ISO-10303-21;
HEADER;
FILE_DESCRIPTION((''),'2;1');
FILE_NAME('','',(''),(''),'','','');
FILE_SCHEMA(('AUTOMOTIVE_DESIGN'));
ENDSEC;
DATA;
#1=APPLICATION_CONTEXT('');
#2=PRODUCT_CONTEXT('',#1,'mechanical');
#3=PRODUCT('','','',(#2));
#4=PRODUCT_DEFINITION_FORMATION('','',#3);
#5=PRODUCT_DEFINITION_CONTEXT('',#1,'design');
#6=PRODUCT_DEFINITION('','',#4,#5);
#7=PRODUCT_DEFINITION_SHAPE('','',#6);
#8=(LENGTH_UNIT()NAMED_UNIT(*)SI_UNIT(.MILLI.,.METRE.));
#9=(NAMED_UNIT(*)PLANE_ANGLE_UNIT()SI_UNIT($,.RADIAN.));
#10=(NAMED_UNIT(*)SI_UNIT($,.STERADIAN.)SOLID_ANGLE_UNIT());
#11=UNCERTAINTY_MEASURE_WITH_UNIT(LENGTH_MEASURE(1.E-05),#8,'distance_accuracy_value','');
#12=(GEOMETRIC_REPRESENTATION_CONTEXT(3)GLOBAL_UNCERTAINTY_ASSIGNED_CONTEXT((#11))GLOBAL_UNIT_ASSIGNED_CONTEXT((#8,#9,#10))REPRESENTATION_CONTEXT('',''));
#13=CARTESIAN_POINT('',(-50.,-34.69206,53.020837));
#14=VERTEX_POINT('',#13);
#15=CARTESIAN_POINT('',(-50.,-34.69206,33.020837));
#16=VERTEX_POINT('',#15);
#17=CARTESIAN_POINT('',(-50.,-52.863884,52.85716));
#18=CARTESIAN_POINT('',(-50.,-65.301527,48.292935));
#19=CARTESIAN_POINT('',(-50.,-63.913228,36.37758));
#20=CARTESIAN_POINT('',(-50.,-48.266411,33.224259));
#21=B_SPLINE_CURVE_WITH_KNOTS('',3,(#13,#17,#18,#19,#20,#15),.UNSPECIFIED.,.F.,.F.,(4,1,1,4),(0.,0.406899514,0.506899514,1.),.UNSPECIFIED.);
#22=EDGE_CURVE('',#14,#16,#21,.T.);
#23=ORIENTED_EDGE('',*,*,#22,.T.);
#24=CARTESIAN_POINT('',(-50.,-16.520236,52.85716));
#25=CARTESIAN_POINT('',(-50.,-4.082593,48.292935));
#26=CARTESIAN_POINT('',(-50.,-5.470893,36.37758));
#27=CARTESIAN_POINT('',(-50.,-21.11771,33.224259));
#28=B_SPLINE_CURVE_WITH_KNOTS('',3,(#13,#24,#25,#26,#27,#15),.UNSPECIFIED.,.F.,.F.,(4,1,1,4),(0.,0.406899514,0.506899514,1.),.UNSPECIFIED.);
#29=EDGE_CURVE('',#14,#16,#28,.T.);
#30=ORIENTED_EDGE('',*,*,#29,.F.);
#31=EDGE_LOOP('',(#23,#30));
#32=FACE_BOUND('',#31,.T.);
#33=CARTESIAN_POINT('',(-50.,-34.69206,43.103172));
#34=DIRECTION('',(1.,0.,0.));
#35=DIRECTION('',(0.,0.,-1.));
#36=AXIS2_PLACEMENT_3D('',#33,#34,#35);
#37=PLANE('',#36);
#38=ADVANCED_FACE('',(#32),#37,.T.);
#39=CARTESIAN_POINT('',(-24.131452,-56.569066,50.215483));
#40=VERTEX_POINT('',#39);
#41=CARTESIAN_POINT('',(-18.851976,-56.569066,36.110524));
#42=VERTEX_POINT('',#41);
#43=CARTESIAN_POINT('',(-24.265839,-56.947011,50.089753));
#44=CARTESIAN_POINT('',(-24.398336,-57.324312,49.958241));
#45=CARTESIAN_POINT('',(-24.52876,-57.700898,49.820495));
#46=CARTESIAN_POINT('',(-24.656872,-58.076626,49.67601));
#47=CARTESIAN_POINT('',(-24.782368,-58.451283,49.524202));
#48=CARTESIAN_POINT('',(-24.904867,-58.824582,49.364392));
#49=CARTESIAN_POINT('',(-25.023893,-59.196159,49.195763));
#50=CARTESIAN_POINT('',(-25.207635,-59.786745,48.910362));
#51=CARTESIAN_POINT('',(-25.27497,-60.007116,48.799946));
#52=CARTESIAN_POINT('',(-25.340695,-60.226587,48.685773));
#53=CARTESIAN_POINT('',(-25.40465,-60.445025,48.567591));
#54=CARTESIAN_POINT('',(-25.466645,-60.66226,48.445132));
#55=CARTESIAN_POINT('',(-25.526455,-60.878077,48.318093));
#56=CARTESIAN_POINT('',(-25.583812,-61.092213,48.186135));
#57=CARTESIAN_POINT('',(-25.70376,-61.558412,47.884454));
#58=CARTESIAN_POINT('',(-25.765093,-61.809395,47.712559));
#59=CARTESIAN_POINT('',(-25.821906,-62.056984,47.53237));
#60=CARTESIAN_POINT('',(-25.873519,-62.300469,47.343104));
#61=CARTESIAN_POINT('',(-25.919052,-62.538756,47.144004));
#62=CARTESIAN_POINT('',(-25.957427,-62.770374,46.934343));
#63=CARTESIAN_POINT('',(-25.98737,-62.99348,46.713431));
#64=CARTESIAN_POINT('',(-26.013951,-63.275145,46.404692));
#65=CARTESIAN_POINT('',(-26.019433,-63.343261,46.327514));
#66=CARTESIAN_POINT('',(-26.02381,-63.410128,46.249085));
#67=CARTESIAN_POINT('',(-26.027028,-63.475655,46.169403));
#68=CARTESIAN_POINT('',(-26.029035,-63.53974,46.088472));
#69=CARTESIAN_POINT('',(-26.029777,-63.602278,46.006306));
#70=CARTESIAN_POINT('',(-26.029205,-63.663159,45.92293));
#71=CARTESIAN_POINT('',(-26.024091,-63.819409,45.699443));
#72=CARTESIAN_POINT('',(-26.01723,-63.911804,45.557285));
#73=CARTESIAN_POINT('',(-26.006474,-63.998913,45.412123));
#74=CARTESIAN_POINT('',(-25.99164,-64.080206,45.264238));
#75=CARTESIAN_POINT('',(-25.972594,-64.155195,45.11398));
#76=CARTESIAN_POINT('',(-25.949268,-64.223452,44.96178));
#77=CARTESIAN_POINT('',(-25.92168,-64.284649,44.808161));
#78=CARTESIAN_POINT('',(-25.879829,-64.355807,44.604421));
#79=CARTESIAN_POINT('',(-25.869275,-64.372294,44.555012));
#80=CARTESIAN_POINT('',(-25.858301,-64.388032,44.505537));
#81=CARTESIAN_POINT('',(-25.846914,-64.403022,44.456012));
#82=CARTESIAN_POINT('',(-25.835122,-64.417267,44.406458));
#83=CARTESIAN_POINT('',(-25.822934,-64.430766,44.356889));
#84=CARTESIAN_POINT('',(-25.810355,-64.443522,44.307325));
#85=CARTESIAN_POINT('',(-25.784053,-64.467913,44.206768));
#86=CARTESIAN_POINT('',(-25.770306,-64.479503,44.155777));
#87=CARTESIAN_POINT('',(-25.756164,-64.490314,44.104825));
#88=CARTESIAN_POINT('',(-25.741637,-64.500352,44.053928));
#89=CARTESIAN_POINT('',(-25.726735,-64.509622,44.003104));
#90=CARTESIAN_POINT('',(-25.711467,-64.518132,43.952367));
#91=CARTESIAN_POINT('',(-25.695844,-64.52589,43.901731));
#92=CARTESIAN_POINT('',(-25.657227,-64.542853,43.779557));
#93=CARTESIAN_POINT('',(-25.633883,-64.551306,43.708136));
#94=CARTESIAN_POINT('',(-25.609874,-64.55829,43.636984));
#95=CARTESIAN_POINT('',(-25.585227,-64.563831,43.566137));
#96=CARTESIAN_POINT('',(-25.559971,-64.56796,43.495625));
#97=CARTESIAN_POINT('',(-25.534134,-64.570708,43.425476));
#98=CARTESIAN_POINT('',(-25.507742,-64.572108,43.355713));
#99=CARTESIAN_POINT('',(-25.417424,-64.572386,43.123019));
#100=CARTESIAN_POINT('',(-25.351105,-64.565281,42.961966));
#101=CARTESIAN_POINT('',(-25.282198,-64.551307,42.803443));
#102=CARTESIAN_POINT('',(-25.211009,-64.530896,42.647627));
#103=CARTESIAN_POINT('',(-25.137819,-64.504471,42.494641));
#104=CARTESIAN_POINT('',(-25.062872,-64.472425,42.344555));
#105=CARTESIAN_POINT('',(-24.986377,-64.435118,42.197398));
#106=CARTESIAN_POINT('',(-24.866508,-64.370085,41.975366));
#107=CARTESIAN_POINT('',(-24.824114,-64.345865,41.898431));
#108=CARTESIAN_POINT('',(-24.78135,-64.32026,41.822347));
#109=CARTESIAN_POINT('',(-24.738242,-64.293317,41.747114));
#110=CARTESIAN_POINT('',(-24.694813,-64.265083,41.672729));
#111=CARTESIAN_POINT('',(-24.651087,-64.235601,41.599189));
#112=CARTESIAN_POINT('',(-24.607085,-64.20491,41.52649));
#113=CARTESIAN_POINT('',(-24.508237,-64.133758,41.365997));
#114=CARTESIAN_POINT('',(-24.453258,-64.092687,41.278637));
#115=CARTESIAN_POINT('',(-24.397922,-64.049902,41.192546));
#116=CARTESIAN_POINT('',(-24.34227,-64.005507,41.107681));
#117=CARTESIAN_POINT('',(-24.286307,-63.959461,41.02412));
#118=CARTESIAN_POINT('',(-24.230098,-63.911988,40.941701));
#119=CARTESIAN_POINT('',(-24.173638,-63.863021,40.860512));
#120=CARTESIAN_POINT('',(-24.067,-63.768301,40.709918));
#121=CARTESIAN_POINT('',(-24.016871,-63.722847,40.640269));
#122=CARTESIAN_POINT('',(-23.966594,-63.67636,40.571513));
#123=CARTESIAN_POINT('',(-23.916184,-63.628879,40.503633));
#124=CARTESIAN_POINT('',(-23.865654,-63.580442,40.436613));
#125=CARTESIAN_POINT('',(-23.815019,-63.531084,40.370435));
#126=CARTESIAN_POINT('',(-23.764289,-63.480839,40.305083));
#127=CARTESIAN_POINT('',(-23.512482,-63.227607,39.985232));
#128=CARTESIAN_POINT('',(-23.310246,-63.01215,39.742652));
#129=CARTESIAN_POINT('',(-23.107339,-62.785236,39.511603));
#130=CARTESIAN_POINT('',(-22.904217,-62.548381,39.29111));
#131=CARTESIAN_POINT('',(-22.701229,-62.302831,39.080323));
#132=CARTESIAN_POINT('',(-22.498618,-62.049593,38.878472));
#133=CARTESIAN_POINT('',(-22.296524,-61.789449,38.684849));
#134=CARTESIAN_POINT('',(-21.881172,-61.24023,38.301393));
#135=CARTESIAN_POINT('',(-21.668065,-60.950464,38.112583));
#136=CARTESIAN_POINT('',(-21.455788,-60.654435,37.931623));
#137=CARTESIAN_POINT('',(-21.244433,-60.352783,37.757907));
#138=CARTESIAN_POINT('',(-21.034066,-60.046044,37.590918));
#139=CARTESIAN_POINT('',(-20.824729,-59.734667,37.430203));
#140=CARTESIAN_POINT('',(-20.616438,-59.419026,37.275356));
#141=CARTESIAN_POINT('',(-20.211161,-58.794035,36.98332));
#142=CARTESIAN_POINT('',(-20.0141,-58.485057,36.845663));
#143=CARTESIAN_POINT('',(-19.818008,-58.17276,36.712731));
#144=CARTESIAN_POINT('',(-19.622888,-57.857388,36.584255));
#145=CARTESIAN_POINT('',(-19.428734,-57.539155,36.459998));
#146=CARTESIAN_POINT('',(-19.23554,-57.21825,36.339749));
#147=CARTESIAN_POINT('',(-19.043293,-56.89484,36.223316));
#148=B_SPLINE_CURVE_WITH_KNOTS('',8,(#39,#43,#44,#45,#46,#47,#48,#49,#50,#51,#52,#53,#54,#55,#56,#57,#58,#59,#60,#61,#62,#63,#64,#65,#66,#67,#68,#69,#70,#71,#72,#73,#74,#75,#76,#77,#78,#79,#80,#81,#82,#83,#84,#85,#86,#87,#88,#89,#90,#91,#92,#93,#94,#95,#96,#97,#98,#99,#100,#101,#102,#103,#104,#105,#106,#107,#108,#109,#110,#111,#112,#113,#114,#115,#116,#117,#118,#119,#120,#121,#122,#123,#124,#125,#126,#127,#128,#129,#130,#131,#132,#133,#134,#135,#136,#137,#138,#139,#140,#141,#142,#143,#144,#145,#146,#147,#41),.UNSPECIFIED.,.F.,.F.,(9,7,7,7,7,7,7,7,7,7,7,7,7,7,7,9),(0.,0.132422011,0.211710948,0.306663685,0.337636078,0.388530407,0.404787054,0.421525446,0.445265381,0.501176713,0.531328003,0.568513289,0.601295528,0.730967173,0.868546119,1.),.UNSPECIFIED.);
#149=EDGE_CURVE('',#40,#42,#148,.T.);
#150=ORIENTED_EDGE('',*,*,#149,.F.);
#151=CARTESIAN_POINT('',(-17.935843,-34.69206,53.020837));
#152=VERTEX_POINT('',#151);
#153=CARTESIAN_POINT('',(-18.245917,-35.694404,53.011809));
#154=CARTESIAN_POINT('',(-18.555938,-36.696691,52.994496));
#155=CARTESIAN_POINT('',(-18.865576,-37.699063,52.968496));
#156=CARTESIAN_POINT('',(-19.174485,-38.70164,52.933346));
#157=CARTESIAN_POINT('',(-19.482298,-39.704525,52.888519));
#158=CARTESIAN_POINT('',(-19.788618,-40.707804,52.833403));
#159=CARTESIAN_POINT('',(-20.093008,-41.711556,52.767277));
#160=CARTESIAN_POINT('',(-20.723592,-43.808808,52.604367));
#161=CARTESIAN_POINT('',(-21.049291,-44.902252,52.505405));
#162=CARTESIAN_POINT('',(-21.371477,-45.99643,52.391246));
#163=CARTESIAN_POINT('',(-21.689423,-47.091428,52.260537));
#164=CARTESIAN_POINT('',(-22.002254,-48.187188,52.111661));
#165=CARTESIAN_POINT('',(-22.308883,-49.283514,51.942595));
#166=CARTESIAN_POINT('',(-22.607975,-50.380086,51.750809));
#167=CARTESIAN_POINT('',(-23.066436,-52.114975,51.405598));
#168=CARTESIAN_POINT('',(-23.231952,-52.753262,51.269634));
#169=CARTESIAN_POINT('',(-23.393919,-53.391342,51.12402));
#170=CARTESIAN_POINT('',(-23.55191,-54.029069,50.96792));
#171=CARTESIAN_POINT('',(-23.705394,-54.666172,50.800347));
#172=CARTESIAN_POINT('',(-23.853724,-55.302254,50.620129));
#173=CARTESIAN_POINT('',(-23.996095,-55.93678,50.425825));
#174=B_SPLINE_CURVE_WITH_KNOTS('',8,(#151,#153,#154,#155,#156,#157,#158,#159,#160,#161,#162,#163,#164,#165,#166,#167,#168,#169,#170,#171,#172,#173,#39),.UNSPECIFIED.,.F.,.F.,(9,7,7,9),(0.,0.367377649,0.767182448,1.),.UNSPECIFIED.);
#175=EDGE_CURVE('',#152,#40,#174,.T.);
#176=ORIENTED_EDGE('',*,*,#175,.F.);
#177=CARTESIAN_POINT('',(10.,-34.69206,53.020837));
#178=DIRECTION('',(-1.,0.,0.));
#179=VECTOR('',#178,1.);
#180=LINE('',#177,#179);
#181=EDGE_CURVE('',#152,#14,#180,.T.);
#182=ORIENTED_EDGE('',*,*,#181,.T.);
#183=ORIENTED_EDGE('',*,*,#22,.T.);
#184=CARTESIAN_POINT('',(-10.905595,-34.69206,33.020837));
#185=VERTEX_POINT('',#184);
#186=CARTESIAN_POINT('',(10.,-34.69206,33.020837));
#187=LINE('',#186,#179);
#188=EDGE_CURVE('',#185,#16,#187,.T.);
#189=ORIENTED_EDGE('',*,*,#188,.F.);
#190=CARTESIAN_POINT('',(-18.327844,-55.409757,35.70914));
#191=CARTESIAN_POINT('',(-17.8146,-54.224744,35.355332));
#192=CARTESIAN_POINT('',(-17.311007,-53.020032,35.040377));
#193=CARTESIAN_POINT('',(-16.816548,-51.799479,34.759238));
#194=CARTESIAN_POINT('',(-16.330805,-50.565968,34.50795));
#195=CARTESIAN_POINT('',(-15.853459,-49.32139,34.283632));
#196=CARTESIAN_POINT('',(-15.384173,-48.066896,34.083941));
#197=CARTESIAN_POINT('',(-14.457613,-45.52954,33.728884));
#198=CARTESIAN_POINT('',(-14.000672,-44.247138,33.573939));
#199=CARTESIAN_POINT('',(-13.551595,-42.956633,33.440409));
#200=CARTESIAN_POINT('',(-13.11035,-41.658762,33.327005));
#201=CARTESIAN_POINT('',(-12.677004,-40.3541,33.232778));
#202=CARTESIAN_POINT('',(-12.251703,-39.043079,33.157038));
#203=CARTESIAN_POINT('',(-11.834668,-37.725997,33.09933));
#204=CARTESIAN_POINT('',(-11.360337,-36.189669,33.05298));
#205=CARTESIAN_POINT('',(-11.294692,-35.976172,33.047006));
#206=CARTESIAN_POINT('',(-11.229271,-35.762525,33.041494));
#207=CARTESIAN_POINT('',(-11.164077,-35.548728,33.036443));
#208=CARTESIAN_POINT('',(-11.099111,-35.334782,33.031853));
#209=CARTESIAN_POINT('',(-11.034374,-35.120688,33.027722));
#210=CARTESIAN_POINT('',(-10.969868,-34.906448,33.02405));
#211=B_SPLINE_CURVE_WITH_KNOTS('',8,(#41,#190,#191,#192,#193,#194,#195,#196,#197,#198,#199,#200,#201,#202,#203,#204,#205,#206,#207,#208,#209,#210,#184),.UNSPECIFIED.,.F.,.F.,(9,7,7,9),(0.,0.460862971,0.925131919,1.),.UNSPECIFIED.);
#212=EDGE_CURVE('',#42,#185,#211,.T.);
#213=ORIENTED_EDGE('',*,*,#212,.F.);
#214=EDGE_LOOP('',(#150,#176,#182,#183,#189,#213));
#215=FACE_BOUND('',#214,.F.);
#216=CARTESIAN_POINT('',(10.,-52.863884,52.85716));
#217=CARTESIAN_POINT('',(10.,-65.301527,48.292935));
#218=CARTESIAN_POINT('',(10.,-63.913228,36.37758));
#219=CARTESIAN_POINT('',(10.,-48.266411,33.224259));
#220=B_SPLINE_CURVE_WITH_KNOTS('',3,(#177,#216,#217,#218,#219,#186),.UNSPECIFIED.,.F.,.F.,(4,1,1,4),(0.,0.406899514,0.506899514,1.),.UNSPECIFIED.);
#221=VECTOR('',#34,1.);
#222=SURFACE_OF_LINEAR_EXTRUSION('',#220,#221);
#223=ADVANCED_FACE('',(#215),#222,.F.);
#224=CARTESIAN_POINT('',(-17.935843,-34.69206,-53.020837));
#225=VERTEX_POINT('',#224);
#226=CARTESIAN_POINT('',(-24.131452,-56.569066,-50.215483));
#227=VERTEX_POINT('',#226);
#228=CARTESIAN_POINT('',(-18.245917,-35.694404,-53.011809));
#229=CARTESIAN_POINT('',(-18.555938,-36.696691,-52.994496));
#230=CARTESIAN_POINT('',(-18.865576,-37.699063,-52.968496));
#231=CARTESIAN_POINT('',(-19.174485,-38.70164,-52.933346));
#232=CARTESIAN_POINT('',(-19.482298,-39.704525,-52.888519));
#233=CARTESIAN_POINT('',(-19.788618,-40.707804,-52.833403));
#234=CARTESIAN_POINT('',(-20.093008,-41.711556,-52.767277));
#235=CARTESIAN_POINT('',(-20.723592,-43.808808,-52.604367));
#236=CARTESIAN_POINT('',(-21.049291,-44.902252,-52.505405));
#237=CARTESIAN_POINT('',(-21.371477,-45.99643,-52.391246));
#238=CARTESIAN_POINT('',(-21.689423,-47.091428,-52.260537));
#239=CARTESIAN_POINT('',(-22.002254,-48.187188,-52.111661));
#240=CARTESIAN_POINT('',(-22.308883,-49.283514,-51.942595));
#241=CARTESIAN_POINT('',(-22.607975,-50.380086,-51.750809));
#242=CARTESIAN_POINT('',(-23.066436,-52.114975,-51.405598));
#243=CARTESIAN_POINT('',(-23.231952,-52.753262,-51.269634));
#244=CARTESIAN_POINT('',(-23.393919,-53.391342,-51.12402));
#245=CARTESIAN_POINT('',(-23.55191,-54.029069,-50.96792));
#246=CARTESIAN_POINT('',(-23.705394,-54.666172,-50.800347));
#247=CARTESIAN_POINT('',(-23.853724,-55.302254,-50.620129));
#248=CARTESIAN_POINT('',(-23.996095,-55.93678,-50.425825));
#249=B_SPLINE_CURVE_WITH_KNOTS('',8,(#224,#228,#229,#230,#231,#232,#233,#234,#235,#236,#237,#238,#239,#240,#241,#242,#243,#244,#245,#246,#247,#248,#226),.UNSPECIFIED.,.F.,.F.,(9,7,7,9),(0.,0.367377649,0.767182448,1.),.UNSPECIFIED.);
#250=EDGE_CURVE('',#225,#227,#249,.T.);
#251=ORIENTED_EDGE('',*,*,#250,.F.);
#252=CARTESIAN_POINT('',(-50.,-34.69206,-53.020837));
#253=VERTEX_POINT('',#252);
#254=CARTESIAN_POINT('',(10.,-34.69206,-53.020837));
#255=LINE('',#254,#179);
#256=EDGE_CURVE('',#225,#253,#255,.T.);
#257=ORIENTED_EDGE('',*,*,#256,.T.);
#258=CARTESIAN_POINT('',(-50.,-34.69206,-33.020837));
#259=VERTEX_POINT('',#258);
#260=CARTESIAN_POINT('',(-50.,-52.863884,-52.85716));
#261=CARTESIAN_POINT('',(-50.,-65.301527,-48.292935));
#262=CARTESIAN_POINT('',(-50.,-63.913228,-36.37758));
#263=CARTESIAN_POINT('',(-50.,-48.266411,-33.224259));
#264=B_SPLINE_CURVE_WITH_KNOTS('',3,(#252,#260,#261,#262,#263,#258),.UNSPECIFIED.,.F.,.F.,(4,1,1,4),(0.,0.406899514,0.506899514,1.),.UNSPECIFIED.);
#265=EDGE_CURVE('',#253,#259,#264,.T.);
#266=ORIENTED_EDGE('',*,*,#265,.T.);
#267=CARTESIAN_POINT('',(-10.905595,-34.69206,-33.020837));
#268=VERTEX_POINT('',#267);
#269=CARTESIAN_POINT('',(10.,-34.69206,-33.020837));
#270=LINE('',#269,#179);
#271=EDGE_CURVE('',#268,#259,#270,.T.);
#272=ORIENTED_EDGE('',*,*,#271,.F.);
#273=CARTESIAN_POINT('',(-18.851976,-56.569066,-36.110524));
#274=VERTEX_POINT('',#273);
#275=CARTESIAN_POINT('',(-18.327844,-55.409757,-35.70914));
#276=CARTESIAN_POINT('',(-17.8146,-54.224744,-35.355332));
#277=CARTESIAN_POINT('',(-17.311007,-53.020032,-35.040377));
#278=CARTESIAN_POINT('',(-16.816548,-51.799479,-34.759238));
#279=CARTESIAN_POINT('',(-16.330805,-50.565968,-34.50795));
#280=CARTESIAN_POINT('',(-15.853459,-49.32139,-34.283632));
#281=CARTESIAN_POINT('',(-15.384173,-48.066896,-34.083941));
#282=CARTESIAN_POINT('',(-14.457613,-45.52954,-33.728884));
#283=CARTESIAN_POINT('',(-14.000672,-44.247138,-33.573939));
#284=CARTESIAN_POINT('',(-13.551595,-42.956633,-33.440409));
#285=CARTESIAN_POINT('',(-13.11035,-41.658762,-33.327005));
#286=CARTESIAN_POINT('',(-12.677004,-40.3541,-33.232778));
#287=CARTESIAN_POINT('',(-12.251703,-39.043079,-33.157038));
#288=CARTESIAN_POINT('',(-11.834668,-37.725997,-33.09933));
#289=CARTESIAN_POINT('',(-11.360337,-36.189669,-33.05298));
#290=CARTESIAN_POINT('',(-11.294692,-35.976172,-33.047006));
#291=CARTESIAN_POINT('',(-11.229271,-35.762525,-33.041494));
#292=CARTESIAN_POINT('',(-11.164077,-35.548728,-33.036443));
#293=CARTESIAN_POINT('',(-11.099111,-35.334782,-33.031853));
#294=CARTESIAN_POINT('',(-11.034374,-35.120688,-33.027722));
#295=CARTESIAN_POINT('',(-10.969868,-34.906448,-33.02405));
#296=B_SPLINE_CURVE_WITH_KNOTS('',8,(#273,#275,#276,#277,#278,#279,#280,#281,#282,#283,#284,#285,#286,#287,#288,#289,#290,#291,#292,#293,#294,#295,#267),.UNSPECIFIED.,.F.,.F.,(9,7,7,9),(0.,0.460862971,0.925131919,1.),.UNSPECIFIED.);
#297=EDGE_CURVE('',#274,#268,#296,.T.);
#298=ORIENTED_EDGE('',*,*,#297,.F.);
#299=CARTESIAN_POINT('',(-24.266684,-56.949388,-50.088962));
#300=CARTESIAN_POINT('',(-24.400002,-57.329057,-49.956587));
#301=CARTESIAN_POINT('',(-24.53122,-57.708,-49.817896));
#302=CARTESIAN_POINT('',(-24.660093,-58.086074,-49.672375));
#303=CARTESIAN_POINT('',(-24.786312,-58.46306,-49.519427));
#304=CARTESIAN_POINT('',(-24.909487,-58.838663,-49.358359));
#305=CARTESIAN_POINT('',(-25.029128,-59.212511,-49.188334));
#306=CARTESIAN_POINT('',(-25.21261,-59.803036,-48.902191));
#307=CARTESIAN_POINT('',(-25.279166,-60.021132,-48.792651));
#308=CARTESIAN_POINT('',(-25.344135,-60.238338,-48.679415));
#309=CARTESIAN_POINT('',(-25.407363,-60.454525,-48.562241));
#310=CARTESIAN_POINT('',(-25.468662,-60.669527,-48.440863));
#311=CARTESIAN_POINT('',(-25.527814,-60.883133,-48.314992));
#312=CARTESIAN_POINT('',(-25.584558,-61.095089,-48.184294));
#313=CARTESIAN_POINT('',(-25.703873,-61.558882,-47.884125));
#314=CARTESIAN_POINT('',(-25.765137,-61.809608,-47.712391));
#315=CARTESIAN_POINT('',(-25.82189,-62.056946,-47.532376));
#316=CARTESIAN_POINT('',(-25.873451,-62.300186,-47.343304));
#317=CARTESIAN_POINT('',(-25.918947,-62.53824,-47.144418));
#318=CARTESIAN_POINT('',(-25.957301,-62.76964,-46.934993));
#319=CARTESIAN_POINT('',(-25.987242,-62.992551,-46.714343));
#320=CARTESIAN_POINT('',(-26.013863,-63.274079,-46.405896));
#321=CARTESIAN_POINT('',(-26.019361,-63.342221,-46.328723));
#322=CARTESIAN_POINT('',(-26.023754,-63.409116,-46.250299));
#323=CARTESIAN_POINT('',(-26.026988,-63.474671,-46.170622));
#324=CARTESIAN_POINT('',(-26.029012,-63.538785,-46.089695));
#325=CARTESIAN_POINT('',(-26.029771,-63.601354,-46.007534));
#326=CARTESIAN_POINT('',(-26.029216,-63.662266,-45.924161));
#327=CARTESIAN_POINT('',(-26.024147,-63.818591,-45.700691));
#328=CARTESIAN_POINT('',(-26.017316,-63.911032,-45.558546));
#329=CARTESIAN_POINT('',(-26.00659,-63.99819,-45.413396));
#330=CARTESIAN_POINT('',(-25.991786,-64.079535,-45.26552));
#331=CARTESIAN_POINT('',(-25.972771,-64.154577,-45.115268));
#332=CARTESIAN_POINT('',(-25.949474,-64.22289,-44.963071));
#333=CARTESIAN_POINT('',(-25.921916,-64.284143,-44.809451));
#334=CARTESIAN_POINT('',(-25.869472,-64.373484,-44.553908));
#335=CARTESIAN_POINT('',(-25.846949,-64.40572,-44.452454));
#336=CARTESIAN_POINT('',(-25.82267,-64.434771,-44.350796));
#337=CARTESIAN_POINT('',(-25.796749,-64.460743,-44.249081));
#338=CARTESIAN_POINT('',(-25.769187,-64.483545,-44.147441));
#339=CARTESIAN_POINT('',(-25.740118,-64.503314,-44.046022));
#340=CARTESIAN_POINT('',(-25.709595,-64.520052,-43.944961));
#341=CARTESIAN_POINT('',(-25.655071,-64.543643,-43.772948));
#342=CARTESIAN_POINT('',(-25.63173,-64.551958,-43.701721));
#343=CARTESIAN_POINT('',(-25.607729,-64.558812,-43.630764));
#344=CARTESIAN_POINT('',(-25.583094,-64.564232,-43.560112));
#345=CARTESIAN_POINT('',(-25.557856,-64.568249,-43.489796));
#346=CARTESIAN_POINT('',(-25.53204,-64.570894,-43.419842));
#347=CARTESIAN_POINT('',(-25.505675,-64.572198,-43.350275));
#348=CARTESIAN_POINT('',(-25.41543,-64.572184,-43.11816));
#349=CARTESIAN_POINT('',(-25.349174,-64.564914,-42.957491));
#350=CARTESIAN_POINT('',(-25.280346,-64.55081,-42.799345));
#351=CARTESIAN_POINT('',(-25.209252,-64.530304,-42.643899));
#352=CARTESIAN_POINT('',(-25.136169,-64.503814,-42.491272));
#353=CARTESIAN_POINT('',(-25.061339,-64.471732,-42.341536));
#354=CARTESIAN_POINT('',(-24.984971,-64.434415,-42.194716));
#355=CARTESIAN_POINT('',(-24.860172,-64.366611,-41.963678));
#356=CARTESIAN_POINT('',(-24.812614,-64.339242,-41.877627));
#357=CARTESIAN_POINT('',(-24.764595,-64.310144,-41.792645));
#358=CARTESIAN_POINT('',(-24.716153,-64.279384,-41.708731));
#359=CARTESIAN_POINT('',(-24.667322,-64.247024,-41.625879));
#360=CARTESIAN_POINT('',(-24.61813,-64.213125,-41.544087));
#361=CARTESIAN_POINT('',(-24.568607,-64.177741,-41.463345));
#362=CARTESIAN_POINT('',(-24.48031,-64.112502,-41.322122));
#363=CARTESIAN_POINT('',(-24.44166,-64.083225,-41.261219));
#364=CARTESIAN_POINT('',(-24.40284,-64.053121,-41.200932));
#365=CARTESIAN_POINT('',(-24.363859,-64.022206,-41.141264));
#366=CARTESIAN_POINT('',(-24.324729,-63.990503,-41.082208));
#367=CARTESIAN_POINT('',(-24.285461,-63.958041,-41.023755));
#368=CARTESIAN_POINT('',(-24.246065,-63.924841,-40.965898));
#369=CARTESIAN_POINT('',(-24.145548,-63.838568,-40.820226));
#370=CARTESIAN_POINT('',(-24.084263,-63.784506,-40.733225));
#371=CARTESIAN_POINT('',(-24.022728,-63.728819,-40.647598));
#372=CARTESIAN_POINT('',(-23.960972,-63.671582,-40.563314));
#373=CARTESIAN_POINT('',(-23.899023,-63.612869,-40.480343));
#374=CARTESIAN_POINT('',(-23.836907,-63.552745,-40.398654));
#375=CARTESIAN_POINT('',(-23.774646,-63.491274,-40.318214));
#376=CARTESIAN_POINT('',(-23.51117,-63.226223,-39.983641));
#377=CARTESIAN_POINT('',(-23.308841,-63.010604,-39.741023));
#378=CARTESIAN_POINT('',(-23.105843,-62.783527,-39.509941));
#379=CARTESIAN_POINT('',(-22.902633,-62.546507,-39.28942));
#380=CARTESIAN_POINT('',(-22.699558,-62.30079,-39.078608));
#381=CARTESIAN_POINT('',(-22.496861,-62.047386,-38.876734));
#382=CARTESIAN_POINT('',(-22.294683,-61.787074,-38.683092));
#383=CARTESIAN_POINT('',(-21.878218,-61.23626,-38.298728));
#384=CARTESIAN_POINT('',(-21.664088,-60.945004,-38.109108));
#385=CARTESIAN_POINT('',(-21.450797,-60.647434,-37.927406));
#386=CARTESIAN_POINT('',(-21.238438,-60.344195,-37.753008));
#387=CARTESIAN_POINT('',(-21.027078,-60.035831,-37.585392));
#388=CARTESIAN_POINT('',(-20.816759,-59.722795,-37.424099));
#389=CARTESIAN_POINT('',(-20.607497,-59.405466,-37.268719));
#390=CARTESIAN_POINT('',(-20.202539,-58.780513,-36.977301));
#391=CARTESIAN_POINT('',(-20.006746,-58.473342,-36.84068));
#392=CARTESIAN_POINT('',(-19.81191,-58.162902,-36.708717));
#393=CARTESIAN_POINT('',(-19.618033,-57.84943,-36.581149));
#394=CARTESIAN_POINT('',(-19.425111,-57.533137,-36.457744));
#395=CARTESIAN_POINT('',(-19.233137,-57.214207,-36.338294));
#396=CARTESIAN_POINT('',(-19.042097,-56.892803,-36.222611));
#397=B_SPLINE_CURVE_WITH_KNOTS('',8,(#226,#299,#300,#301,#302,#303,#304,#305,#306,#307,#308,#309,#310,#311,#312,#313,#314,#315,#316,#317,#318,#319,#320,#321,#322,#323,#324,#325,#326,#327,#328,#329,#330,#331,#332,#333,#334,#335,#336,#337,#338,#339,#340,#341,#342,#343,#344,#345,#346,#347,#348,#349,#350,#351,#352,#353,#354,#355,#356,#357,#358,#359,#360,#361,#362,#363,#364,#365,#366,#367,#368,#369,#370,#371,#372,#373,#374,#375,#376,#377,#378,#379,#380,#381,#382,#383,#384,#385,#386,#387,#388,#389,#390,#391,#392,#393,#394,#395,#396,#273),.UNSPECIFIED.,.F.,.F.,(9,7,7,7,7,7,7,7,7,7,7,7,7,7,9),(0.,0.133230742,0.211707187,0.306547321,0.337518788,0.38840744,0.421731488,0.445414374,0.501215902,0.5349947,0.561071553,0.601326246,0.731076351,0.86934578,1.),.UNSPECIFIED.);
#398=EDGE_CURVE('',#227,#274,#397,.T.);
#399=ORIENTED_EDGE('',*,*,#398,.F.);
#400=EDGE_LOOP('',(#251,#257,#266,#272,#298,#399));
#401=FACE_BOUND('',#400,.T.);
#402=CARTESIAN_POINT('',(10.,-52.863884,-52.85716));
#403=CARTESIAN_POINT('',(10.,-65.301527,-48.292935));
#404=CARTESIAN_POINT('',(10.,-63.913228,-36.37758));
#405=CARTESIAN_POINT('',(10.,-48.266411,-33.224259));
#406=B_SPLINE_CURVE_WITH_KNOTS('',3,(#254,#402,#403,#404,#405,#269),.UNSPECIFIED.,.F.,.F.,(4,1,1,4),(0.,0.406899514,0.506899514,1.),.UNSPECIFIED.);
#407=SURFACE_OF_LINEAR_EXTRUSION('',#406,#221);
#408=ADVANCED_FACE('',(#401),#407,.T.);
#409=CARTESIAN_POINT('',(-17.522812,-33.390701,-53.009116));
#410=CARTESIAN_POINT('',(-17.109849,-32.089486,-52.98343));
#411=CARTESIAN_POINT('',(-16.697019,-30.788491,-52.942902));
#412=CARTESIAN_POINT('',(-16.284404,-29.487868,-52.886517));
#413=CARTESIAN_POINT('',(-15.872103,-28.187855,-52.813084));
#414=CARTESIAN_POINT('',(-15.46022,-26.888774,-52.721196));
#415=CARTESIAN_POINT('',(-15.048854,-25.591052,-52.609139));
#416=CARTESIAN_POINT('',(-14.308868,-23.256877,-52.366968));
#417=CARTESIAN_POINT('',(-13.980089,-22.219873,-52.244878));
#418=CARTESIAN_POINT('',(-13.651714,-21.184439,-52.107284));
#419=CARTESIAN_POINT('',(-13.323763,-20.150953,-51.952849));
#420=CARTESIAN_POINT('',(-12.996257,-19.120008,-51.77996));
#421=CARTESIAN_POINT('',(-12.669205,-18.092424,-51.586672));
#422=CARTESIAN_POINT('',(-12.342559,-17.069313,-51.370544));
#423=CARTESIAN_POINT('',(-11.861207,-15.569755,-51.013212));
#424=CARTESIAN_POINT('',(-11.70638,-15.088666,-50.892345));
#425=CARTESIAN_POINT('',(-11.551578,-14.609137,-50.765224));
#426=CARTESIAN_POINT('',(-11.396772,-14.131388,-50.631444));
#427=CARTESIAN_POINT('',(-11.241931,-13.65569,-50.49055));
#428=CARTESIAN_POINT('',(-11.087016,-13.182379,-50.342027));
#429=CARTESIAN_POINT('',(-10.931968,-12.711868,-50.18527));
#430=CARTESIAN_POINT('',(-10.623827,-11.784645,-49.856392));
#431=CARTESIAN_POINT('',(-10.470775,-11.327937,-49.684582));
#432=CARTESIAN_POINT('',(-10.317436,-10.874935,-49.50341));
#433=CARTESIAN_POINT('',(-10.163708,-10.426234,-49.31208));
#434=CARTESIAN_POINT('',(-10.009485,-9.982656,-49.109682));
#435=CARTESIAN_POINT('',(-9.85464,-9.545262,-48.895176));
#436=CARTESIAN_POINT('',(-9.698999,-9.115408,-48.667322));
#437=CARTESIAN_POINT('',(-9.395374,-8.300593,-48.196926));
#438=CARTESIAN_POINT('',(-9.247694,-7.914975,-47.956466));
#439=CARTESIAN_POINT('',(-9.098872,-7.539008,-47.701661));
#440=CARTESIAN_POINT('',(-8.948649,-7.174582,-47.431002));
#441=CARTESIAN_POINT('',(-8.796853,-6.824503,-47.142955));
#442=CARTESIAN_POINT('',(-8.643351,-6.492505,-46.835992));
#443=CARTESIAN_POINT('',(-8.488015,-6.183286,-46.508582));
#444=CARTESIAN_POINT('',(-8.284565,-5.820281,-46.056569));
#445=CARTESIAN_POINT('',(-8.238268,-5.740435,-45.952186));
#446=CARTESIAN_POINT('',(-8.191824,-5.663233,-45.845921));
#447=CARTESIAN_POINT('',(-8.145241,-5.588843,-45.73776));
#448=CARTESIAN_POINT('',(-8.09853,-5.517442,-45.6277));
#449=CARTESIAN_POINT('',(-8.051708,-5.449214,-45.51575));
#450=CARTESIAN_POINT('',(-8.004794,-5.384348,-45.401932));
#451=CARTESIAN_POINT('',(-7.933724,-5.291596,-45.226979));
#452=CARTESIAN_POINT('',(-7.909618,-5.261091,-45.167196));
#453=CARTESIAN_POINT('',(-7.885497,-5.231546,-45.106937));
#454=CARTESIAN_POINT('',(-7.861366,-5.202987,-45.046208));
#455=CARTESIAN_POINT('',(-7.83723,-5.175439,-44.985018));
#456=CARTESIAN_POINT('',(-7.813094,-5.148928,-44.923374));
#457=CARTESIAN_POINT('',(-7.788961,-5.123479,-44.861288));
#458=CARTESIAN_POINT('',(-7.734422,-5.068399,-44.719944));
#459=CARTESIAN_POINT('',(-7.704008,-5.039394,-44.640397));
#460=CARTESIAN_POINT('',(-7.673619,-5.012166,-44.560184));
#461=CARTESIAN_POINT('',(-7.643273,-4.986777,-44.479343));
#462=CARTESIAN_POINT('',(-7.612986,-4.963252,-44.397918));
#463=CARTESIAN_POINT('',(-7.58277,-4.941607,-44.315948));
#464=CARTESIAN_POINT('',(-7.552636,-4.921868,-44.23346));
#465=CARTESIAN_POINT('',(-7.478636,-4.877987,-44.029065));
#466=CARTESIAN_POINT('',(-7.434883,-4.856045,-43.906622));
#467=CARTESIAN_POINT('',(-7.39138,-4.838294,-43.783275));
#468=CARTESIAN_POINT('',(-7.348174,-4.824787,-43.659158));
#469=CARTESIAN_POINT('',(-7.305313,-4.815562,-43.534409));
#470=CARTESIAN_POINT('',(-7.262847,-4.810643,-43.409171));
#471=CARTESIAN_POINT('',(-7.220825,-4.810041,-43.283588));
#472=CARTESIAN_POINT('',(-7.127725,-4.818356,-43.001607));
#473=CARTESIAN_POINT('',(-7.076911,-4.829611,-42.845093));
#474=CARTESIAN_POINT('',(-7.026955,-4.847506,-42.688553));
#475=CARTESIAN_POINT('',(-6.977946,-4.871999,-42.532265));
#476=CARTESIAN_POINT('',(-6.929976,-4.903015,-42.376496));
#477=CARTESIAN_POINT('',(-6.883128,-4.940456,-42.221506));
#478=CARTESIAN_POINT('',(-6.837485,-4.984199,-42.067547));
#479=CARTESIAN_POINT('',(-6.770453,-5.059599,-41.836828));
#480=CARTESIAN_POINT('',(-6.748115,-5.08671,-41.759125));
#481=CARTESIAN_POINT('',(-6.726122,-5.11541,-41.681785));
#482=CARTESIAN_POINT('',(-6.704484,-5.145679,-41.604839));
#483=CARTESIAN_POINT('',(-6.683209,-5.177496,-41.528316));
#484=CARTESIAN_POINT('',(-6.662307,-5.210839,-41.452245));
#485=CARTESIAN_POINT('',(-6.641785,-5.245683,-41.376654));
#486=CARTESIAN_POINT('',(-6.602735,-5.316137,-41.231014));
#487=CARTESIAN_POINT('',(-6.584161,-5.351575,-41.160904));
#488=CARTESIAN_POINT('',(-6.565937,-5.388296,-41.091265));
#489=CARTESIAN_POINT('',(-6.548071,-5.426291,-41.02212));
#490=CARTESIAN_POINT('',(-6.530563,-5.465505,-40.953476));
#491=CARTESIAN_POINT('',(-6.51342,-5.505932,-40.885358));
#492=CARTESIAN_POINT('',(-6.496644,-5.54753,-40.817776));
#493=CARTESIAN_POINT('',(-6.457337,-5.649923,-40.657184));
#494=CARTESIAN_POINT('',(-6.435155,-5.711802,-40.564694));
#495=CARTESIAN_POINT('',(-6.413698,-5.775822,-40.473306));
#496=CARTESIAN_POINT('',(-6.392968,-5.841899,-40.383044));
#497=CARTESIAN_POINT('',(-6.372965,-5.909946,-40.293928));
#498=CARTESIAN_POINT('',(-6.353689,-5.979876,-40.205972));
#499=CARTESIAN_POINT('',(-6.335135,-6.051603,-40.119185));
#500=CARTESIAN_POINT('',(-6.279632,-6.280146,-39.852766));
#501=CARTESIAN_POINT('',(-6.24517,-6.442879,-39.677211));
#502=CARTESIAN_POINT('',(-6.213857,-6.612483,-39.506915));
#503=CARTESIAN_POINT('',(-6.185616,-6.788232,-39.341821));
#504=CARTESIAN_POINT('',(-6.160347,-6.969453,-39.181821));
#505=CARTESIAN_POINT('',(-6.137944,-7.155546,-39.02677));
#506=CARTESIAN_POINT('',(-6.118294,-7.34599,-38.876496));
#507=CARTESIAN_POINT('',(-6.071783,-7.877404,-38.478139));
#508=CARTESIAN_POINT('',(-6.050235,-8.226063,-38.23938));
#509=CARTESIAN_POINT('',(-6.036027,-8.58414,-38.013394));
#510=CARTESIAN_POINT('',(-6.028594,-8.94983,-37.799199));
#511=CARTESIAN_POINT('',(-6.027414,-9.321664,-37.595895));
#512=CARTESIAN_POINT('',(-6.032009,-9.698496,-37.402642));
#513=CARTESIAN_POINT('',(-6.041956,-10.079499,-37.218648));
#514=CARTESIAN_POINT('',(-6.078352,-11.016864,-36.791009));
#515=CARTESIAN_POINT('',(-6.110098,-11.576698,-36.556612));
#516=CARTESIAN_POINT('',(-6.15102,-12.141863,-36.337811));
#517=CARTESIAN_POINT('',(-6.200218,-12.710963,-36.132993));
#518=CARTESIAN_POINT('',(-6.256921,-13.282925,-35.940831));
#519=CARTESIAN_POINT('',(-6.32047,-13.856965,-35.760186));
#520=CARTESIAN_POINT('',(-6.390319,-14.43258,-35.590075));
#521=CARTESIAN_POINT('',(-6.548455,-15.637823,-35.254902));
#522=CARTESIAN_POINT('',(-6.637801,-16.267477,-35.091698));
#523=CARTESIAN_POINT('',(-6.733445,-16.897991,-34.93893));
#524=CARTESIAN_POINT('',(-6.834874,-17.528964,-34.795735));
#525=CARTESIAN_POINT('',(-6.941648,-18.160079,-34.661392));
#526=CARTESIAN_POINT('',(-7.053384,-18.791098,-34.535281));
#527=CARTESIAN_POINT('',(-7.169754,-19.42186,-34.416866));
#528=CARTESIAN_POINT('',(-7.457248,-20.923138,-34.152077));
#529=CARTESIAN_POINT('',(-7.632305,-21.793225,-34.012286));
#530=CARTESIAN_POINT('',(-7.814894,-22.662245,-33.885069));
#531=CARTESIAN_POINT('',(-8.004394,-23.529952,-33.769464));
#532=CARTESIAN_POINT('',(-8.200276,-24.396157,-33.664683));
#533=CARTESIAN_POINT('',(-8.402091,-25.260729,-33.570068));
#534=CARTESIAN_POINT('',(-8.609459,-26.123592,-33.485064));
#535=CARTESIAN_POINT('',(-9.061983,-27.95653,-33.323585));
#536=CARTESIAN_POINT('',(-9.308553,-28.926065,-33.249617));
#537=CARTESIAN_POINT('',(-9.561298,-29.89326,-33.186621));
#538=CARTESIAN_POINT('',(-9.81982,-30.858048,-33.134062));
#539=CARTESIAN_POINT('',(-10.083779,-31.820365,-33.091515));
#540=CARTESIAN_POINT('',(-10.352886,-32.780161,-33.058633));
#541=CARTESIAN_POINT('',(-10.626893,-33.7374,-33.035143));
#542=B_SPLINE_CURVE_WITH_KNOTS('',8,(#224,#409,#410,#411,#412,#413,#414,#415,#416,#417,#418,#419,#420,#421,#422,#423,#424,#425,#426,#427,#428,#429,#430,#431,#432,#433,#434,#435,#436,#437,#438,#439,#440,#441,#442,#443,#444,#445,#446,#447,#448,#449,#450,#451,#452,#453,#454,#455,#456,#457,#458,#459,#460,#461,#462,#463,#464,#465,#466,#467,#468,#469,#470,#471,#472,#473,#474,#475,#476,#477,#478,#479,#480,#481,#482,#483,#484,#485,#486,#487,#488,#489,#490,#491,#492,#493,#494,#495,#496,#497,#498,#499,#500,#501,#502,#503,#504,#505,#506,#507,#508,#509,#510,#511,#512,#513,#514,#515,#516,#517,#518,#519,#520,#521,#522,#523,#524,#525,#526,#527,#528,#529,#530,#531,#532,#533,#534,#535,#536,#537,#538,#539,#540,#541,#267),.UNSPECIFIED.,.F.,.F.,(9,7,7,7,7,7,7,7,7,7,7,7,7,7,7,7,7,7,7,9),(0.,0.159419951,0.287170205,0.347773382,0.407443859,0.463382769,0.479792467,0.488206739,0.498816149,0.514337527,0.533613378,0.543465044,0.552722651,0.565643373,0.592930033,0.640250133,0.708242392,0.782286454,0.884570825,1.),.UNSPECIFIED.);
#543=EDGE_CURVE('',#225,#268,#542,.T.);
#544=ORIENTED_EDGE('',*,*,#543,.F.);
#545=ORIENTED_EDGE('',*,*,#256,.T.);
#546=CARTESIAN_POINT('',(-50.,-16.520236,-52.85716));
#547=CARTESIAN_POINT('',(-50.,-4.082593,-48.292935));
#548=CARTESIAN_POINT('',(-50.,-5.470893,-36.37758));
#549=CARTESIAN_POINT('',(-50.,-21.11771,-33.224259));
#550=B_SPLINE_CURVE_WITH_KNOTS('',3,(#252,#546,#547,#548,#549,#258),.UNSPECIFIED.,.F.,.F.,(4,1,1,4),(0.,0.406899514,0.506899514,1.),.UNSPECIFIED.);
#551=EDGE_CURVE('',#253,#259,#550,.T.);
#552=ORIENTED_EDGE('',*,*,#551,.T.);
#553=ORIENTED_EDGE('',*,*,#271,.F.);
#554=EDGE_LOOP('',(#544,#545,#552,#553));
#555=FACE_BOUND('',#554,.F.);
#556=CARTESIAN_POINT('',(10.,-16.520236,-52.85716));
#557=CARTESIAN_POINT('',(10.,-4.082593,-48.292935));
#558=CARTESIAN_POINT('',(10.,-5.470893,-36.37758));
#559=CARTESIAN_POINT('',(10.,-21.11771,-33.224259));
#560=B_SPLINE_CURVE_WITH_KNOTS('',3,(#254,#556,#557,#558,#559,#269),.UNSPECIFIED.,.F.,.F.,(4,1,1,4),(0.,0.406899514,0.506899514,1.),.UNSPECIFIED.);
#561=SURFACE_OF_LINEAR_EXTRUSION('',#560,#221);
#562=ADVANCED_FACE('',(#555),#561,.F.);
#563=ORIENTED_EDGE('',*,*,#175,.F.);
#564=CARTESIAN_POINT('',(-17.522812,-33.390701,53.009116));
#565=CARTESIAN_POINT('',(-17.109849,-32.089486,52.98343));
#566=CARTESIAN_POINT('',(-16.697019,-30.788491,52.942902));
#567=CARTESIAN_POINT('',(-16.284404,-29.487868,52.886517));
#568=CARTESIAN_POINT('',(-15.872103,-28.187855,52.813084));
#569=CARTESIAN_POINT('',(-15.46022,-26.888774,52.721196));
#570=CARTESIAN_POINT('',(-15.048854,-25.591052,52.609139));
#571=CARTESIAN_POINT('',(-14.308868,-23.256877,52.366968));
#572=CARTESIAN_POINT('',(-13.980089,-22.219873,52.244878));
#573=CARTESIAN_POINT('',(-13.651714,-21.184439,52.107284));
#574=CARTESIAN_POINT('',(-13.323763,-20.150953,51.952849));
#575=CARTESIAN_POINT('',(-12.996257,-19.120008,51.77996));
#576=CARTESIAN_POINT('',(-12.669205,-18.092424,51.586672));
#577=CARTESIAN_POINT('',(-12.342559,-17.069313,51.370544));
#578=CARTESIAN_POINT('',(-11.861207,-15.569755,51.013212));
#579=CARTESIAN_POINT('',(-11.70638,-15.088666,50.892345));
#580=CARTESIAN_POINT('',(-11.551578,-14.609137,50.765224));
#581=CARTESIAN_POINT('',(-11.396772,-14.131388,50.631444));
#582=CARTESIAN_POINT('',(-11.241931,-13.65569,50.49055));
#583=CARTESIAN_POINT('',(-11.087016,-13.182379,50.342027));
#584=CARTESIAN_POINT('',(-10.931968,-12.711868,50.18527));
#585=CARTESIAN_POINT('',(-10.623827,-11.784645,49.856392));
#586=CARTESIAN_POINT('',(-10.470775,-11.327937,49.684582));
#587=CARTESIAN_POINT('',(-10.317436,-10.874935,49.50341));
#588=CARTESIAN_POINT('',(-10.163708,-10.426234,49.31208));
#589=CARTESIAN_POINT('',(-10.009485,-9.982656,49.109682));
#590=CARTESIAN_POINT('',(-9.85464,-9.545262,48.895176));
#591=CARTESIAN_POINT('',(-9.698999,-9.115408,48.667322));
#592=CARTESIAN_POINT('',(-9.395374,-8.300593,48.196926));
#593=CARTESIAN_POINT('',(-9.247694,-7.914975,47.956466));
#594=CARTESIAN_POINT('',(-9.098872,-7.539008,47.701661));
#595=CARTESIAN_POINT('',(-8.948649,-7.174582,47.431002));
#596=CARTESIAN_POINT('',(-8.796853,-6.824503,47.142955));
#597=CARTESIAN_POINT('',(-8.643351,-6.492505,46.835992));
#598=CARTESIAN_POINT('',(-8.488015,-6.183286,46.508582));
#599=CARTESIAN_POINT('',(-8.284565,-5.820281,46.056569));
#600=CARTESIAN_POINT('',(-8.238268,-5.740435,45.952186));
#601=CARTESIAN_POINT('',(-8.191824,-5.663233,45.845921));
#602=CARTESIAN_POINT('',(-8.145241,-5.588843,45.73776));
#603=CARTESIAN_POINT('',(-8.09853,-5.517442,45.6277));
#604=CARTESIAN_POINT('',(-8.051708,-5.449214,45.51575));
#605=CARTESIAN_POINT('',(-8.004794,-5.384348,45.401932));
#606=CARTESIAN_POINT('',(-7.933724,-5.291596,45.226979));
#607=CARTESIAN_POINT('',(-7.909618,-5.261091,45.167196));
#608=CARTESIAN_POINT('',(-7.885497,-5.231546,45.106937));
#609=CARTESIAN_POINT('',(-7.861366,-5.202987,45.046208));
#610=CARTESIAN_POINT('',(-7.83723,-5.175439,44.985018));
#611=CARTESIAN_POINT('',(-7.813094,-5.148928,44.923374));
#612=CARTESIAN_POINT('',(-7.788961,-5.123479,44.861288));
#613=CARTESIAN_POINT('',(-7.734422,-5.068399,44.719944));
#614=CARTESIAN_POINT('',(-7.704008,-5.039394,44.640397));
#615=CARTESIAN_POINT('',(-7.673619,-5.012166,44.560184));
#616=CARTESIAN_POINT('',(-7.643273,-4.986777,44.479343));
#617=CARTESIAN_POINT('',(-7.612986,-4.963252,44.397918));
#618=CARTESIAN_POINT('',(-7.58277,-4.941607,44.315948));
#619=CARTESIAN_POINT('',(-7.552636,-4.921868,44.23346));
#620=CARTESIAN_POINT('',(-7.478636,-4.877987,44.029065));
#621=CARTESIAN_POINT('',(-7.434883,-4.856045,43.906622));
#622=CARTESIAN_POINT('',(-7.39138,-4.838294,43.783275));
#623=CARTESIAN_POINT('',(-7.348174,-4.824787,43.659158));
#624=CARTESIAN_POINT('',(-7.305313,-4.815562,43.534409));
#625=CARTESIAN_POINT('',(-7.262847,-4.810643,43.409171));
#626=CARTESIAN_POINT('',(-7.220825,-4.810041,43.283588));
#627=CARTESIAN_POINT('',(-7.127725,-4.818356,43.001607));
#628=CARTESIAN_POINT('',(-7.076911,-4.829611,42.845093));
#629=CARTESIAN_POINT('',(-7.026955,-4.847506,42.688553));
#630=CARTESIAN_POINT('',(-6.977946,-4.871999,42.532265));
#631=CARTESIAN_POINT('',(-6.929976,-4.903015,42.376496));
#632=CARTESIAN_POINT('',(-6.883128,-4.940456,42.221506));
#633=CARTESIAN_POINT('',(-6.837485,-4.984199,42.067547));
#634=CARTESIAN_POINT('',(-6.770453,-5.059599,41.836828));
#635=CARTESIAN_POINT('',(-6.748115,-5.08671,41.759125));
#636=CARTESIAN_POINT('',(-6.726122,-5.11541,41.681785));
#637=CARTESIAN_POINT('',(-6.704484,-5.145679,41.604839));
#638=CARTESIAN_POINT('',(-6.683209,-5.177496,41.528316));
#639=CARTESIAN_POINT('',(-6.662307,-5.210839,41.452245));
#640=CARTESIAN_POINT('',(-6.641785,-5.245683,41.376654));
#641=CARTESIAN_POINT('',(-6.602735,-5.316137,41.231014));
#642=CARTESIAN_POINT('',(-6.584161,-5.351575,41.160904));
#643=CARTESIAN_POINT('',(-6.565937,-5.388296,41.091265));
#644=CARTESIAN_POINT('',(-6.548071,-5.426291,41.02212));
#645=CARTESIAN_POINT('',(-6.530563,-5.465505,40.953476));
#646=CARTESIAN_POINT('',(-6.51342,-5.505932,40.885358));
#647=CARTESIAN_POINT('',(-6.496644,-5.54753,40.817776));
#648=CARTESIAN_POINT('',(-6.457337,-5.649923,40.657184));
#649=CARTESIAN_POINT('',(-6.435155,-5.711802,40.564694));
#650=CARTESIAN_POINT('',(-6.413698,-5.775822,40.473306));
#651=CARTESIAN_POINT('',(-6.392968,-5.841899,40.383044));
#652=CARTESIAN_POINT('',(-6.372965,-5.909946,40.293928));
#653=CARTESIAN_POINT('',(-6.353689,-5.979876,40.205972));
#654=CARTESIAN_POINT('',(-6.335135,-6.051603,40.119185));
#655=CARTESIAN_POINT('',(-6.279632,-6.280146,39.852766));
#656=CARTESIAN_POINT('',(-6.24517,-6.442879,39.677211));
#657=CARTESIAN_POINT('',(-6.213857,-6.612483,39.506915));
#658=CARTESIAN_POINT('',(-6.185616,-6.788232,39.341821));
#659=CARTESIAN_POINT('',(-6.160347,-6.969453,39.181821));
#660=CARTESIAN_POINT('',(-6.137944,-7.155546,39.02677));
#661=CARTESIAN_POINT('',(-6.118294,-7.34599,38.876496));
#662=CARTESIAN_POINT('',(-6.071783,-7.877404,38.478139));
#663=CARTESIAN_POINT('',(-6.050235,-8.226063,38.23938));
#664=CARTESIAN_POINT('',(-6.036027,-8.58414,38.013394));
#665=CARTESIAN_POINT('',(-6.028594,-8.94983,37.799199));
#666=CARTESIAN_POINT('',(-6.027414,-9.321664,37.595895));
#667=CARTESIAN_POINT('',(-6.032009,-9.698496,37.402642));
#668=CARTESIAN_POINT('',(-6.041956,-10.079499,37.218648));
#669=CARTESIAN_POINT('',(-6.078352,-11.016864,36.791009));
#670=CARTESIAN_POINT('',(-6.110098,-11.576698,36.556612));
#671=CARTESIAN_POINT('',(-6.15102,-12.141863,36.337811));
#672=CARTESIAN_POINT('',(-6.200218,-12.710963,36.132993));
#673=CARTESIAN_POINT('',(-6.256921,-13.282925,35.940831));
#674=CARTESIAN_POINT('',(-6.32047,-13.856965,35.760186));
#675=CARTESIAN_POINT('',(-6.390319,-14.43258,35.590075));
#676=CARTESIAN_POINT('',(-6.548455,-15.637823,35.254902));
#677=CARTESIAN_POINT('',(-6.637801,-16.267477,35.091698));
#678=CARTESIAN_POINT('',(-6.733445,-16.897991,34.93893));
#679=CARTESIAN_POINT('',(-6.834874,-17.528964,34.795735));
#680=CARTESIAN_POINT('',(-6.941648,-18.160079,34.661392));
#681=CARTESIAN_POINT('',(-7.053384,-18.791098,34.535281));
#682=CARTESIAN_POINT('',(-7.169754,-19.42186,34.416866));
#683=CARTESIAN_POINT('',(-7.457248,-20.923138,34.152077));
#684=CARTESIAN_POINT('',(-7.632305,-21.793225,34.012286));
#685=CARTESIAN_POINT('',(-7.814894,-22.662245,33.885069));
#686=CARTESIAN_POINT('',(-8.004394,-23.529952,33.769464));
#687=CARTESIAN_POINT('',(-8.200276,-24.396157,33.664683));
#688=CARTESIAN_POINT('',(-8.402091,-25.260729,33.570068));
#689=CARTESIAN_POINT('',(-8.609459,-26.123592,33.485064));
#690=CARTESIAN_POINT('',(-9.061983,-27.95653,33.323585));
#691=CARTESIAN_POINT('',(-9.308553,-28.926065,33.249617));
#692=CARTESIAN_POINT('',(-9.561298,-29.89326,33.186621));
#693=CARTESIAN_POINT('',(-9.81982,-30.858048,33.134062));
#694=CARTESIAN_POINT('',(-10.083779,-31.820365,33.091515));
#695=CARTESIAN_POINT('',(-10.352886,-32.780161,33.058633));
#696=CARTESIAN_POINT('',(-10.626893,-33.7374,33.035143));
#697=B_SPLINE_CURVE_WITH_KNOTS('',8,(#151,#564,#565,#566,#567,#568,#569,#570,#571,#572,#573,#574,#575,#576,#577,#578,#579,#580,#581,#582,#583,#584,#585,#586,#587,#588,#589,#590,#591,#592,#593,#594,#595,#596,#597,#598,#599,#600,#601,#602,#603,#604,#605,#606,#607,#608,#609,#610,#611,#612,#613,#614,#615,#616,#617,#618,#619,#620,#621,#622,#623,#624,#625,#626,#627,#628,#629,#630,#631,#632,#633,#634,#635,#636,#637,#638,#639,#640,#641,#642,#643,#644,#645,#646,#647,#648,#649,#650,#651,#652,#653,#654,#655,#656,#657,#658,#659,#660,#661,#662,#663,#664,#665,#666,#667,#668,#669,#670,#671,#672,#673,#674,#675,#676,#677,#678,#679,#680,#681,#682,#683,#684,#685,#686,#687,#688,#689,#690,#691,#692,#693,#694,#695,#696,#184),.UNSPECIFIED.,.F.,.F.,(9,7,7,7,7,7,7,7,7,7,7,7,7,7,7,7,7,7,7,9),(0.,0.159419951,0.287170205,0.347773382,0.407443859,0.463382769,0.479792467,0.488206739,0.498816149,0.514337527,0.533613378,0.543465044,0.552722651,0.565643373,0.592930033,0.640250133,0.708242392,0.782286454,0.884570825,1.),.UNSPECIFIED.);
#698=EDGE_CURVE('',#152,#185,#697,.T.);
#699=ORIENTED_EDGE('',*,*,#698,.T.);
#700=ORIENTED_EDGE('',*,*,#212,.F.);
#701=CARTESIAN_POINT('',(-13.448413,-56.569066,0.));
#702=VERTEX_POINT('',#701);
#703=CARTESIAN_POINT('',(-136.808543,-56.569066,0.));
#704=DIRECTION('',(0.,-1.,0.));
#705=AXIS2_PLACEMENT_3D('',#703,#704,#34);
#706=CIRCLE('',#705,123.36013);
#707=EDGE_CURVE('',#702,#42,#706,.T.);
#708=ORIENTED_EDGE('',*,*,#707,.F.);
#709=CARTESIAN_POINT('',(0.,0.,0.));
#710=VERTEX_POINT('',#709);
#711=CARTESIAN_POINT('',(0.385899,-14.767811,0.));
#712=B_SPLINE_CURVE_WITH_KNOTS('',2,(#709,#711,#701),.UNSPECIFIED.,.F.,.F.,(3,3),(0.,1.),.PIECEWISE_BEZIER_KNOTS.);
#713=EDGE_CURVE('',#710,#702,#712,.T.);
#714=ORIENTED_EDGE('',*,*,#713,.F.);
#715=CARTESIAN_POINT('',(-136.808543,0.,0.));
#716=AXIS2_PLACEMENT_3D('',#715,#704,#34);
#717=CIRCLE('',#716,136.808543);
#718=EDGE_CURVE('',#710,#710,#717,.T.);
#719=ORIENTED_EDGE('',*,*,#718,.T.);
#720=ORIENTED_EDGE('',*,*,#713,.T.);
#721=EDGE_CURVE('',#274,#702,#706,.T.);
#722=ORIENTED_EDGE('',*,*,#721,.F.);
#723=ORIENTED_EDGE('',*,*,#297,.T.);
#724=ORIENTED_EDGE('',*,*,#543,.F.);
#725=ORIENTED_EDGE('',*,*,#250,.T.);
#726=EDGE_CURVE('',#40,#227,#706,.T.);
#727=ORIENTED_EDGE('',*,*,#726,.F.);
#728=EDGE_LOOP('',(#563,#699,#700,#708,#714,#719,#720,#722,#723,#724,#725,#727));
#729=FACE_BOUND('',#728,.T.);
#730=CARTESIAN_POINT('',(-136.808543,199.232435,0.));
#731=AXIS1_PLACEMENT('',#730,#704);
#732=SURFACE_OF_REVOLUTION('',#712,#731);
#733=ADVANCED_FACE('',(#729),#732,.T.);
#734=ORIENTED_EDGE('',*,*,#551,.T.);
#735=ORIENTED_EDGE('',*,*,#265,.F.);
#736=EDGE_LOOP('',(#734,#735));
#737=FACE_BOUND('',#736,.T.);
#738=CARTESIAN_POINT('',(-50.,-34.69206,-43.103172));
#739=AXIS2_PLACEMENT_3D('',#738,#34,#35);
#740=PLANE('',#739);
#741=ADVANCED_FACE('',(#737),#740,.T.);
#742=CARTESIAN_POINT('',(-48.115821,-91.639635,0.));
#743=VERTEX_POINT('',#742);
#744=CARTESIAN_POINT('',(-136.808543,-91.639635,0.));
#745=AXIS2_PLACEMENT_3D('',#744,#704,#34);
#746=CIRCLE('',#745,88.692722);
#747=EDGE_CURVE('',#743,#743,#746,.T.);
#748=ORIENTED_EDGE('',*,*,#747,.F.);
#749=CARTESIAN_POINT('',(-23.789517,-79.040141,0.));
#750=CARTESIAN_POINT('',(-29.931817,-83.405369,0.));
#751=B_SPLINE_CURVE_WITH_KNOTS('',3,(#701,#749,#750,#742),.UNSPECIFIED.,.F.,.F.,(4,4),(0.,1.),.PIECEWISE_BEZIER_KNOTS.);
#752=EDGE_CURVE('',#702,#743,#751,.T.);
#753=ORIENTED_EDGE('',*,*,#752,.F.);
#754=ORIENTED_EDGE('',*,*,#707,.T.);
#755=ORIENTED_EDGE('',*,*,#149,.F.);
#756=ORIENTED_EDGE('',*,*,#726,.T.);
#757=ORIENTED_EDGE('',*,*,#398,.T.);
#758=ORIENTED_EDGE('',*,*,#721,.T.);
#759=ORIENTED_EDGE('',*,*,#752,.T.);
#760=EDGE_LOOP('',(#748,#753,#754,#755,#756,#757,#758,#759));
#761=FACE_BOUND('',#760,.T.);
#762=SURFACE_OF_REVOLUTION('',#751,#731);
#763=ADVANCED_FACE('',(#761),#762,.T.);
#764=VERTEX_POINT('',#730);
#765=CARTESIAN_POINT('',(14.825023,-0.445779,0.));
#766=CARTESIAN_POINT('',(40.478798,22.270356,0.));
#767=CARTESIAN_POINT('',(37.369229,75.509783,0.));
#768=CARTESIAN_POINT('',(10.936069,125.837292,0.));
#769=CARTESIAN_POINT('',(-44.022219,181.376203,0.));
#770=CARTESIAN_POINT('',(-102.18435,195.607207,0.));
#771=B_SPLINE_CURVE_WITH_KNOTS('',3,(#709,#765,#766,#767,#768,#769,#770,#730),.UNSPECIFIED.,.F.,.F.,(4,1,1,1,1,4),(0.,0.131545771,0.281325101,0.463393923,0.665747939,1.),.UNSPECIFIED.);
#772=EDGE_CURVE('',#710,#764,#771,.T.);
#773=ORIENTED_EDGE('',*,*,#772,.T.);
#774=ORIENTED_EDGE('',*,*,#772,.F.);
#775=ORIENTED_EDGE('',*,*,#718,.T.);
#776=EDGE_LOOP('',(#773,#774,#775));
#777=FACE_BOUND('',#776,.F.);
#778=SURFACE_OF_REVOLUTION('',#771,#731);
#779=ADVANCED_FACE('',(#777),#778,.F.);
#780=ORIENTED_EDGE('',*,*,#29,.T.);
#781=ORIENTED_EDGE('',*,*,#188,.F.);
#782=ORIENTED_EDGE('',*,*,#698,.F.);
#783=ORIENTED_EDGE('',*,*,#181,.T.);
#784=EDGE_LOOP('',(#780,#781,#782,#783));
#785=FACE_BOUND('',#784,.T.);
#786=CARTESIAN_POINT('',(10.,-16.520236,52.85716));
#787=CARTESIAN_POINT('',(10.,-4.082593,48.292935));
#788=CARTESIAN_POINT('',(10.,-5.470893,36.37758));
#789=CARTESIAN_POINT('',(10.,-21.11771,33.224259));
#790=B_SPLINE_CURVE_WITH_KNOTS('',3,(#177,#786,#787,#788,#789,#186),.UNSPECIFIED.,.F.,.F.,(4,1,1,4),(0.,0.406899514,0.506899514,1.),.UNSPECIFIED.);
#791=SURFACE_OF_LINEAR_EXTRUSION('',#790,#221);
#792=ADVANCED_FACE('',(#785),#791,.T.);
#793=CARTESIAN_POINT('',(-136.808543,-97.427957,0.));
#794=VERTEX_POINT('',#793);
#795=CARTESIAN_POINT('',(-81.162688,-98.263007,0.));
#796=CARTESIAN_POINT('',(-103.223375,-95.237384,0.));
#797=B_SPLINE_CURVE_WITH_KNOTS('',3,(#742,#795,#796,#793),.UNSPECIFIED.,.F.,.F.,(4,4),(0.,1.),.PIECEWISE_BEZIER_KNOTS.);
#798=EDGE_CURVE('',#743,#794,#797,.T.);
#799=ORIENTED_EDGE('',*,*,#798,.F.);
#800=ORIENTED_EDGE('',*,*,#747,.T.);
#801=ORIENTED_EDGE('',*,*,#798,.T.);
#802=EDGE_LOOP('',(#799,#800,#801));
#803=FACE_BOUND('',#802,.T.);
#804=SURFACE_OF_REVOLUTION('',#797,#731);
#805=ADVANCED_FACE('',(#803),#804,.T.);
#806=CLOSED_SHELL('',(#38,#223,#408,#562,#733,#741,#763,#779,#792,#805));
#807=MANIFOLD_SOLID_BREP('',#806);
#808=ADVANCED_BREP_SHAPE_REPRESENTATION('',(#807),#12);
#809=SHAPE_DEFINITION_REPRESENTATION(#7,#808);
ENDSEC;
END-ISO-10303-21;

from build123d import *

# Parameters (mm, degrees)
ENL_V_MAT_EXTRU_1_DEPTH = 60


with BuildPart() as part:
    # Esquisse1 → Révolution7 (revolve)
    with BuildSketch(Plane.XY):
        with BuildLine():
            add(Edge.make_bspline(
                [(-48.115821059, -91.639635022), (-81.162687834, -98.263006724), (-103.223374652, -95.237383867), (-136.80854301, -97.427956975)],
                knots=[0, 0, 0, 0, 1, 1, 1, 1], degree=3))
            Line((-136.80854301, -97.427956975), (-136.80854301, 199.232434505))
            add(Edge.make_bspline(
                [(0, 0), (14.825022657, -0.445779429), (40.47879841, 22.27035649), (37.369228796, 75.509783122), (10.936069116, 125.837292255), (-44.022218749, 181.376202854), (-102.184349677, 195.60720694), (-136.80854301, 199.232434505)],
                knots=[0, 0, 0, 0, 0.131545771, 0.281325101, 0.463393923, 0.665747939, 1, 1, 1, 1], degree=3))
            add(Edge.make_bspline(
                [(0, 0), (0.385899472, -14.767811035), (-13.4484134, -56.569066259)],
                knots=[0, 0, 0, 1, 1, 1], degree=2))
            add(Edge.make_bspline(
                [(-13.4484134, -56.569066259), (-23.789517321, -79.040140508), (-29.931816795, -83.40536894), (-48.115821059, -91.639635022)],
                knots=[0, 0, 0, 0, 1, 1, 1, 1], degree=3))
        make_face()
    revolve(axis=Axis((-136.80854301, 199.232434505, 0), (0, -1, 0)))

    # Esquisse8 → Enlèv. mat.-Extru.1 (cut)
    with BuildSketch(Plane(origin=(10, 0, 0), x_dir=(0, 0, -1), z_dir=(1, 0, 0))):
        with BuildLine():
            add(Edge.make_bspline(
                [(53.020837129, -34.692060293), (52.857159542, -16.520236199), (48.292935061, -4.082593379), (36.377579821, -5.470892534), (33.224258834, -21.117710022), (33.020837129, -34.692060293)],
                knots=[0, 0, 0, 0, 0.406899514, 0.506899514, 1, 1, 1, 1], degree=3))
            add(Edge.make_bspline(
                [(53.020837129, -34.692060293), (52.857159542, -52.863884387), (48.292935061, -65.301527207), (36.377579821, -63.913228052), (33.224258834, -48.266410564), (33.020837129, -34.692060293)],
                knots=[0, 0, 0, 0, 0.406899514, 0.506899514, 1, 1, 1, 1], degree=3))
        make_face()
        with BuildLine():
            add(Edge.make_bspline(
                [(-53.020837129, -34.692060293), (-52.857159542, -52.863884387), (-48.292935061, -65.301527207), (-36.377579821, -63.913228052), (-33.224258834, -48.266410564), (-33.020837129, -34.692060293)],
                knots=[0, 0, 0, 0, 0.406899514, 0.506899514, 1, 1, 1, 1], degree=3))
            add(Edge.make_bspline(
                [(-53.020837129, -34.692060293), (-52.857159542, -16.520236199), (-48.292935061, -4.082593379), (-36.377579821, -5.470892534), (-33.224258834, -21.117710022), (-33.020837129, -34.692060293)],
                knots=[0, 0, 0, 0, 0.406899514, 0.506899514, 1, 1, 1, 1], degree=3))
        make_face()
    extrude(amount=-ENL_V_MAT_EXTRU_1_DEPTH, mode=Mode.SUBTRACT)


solid = part.part
